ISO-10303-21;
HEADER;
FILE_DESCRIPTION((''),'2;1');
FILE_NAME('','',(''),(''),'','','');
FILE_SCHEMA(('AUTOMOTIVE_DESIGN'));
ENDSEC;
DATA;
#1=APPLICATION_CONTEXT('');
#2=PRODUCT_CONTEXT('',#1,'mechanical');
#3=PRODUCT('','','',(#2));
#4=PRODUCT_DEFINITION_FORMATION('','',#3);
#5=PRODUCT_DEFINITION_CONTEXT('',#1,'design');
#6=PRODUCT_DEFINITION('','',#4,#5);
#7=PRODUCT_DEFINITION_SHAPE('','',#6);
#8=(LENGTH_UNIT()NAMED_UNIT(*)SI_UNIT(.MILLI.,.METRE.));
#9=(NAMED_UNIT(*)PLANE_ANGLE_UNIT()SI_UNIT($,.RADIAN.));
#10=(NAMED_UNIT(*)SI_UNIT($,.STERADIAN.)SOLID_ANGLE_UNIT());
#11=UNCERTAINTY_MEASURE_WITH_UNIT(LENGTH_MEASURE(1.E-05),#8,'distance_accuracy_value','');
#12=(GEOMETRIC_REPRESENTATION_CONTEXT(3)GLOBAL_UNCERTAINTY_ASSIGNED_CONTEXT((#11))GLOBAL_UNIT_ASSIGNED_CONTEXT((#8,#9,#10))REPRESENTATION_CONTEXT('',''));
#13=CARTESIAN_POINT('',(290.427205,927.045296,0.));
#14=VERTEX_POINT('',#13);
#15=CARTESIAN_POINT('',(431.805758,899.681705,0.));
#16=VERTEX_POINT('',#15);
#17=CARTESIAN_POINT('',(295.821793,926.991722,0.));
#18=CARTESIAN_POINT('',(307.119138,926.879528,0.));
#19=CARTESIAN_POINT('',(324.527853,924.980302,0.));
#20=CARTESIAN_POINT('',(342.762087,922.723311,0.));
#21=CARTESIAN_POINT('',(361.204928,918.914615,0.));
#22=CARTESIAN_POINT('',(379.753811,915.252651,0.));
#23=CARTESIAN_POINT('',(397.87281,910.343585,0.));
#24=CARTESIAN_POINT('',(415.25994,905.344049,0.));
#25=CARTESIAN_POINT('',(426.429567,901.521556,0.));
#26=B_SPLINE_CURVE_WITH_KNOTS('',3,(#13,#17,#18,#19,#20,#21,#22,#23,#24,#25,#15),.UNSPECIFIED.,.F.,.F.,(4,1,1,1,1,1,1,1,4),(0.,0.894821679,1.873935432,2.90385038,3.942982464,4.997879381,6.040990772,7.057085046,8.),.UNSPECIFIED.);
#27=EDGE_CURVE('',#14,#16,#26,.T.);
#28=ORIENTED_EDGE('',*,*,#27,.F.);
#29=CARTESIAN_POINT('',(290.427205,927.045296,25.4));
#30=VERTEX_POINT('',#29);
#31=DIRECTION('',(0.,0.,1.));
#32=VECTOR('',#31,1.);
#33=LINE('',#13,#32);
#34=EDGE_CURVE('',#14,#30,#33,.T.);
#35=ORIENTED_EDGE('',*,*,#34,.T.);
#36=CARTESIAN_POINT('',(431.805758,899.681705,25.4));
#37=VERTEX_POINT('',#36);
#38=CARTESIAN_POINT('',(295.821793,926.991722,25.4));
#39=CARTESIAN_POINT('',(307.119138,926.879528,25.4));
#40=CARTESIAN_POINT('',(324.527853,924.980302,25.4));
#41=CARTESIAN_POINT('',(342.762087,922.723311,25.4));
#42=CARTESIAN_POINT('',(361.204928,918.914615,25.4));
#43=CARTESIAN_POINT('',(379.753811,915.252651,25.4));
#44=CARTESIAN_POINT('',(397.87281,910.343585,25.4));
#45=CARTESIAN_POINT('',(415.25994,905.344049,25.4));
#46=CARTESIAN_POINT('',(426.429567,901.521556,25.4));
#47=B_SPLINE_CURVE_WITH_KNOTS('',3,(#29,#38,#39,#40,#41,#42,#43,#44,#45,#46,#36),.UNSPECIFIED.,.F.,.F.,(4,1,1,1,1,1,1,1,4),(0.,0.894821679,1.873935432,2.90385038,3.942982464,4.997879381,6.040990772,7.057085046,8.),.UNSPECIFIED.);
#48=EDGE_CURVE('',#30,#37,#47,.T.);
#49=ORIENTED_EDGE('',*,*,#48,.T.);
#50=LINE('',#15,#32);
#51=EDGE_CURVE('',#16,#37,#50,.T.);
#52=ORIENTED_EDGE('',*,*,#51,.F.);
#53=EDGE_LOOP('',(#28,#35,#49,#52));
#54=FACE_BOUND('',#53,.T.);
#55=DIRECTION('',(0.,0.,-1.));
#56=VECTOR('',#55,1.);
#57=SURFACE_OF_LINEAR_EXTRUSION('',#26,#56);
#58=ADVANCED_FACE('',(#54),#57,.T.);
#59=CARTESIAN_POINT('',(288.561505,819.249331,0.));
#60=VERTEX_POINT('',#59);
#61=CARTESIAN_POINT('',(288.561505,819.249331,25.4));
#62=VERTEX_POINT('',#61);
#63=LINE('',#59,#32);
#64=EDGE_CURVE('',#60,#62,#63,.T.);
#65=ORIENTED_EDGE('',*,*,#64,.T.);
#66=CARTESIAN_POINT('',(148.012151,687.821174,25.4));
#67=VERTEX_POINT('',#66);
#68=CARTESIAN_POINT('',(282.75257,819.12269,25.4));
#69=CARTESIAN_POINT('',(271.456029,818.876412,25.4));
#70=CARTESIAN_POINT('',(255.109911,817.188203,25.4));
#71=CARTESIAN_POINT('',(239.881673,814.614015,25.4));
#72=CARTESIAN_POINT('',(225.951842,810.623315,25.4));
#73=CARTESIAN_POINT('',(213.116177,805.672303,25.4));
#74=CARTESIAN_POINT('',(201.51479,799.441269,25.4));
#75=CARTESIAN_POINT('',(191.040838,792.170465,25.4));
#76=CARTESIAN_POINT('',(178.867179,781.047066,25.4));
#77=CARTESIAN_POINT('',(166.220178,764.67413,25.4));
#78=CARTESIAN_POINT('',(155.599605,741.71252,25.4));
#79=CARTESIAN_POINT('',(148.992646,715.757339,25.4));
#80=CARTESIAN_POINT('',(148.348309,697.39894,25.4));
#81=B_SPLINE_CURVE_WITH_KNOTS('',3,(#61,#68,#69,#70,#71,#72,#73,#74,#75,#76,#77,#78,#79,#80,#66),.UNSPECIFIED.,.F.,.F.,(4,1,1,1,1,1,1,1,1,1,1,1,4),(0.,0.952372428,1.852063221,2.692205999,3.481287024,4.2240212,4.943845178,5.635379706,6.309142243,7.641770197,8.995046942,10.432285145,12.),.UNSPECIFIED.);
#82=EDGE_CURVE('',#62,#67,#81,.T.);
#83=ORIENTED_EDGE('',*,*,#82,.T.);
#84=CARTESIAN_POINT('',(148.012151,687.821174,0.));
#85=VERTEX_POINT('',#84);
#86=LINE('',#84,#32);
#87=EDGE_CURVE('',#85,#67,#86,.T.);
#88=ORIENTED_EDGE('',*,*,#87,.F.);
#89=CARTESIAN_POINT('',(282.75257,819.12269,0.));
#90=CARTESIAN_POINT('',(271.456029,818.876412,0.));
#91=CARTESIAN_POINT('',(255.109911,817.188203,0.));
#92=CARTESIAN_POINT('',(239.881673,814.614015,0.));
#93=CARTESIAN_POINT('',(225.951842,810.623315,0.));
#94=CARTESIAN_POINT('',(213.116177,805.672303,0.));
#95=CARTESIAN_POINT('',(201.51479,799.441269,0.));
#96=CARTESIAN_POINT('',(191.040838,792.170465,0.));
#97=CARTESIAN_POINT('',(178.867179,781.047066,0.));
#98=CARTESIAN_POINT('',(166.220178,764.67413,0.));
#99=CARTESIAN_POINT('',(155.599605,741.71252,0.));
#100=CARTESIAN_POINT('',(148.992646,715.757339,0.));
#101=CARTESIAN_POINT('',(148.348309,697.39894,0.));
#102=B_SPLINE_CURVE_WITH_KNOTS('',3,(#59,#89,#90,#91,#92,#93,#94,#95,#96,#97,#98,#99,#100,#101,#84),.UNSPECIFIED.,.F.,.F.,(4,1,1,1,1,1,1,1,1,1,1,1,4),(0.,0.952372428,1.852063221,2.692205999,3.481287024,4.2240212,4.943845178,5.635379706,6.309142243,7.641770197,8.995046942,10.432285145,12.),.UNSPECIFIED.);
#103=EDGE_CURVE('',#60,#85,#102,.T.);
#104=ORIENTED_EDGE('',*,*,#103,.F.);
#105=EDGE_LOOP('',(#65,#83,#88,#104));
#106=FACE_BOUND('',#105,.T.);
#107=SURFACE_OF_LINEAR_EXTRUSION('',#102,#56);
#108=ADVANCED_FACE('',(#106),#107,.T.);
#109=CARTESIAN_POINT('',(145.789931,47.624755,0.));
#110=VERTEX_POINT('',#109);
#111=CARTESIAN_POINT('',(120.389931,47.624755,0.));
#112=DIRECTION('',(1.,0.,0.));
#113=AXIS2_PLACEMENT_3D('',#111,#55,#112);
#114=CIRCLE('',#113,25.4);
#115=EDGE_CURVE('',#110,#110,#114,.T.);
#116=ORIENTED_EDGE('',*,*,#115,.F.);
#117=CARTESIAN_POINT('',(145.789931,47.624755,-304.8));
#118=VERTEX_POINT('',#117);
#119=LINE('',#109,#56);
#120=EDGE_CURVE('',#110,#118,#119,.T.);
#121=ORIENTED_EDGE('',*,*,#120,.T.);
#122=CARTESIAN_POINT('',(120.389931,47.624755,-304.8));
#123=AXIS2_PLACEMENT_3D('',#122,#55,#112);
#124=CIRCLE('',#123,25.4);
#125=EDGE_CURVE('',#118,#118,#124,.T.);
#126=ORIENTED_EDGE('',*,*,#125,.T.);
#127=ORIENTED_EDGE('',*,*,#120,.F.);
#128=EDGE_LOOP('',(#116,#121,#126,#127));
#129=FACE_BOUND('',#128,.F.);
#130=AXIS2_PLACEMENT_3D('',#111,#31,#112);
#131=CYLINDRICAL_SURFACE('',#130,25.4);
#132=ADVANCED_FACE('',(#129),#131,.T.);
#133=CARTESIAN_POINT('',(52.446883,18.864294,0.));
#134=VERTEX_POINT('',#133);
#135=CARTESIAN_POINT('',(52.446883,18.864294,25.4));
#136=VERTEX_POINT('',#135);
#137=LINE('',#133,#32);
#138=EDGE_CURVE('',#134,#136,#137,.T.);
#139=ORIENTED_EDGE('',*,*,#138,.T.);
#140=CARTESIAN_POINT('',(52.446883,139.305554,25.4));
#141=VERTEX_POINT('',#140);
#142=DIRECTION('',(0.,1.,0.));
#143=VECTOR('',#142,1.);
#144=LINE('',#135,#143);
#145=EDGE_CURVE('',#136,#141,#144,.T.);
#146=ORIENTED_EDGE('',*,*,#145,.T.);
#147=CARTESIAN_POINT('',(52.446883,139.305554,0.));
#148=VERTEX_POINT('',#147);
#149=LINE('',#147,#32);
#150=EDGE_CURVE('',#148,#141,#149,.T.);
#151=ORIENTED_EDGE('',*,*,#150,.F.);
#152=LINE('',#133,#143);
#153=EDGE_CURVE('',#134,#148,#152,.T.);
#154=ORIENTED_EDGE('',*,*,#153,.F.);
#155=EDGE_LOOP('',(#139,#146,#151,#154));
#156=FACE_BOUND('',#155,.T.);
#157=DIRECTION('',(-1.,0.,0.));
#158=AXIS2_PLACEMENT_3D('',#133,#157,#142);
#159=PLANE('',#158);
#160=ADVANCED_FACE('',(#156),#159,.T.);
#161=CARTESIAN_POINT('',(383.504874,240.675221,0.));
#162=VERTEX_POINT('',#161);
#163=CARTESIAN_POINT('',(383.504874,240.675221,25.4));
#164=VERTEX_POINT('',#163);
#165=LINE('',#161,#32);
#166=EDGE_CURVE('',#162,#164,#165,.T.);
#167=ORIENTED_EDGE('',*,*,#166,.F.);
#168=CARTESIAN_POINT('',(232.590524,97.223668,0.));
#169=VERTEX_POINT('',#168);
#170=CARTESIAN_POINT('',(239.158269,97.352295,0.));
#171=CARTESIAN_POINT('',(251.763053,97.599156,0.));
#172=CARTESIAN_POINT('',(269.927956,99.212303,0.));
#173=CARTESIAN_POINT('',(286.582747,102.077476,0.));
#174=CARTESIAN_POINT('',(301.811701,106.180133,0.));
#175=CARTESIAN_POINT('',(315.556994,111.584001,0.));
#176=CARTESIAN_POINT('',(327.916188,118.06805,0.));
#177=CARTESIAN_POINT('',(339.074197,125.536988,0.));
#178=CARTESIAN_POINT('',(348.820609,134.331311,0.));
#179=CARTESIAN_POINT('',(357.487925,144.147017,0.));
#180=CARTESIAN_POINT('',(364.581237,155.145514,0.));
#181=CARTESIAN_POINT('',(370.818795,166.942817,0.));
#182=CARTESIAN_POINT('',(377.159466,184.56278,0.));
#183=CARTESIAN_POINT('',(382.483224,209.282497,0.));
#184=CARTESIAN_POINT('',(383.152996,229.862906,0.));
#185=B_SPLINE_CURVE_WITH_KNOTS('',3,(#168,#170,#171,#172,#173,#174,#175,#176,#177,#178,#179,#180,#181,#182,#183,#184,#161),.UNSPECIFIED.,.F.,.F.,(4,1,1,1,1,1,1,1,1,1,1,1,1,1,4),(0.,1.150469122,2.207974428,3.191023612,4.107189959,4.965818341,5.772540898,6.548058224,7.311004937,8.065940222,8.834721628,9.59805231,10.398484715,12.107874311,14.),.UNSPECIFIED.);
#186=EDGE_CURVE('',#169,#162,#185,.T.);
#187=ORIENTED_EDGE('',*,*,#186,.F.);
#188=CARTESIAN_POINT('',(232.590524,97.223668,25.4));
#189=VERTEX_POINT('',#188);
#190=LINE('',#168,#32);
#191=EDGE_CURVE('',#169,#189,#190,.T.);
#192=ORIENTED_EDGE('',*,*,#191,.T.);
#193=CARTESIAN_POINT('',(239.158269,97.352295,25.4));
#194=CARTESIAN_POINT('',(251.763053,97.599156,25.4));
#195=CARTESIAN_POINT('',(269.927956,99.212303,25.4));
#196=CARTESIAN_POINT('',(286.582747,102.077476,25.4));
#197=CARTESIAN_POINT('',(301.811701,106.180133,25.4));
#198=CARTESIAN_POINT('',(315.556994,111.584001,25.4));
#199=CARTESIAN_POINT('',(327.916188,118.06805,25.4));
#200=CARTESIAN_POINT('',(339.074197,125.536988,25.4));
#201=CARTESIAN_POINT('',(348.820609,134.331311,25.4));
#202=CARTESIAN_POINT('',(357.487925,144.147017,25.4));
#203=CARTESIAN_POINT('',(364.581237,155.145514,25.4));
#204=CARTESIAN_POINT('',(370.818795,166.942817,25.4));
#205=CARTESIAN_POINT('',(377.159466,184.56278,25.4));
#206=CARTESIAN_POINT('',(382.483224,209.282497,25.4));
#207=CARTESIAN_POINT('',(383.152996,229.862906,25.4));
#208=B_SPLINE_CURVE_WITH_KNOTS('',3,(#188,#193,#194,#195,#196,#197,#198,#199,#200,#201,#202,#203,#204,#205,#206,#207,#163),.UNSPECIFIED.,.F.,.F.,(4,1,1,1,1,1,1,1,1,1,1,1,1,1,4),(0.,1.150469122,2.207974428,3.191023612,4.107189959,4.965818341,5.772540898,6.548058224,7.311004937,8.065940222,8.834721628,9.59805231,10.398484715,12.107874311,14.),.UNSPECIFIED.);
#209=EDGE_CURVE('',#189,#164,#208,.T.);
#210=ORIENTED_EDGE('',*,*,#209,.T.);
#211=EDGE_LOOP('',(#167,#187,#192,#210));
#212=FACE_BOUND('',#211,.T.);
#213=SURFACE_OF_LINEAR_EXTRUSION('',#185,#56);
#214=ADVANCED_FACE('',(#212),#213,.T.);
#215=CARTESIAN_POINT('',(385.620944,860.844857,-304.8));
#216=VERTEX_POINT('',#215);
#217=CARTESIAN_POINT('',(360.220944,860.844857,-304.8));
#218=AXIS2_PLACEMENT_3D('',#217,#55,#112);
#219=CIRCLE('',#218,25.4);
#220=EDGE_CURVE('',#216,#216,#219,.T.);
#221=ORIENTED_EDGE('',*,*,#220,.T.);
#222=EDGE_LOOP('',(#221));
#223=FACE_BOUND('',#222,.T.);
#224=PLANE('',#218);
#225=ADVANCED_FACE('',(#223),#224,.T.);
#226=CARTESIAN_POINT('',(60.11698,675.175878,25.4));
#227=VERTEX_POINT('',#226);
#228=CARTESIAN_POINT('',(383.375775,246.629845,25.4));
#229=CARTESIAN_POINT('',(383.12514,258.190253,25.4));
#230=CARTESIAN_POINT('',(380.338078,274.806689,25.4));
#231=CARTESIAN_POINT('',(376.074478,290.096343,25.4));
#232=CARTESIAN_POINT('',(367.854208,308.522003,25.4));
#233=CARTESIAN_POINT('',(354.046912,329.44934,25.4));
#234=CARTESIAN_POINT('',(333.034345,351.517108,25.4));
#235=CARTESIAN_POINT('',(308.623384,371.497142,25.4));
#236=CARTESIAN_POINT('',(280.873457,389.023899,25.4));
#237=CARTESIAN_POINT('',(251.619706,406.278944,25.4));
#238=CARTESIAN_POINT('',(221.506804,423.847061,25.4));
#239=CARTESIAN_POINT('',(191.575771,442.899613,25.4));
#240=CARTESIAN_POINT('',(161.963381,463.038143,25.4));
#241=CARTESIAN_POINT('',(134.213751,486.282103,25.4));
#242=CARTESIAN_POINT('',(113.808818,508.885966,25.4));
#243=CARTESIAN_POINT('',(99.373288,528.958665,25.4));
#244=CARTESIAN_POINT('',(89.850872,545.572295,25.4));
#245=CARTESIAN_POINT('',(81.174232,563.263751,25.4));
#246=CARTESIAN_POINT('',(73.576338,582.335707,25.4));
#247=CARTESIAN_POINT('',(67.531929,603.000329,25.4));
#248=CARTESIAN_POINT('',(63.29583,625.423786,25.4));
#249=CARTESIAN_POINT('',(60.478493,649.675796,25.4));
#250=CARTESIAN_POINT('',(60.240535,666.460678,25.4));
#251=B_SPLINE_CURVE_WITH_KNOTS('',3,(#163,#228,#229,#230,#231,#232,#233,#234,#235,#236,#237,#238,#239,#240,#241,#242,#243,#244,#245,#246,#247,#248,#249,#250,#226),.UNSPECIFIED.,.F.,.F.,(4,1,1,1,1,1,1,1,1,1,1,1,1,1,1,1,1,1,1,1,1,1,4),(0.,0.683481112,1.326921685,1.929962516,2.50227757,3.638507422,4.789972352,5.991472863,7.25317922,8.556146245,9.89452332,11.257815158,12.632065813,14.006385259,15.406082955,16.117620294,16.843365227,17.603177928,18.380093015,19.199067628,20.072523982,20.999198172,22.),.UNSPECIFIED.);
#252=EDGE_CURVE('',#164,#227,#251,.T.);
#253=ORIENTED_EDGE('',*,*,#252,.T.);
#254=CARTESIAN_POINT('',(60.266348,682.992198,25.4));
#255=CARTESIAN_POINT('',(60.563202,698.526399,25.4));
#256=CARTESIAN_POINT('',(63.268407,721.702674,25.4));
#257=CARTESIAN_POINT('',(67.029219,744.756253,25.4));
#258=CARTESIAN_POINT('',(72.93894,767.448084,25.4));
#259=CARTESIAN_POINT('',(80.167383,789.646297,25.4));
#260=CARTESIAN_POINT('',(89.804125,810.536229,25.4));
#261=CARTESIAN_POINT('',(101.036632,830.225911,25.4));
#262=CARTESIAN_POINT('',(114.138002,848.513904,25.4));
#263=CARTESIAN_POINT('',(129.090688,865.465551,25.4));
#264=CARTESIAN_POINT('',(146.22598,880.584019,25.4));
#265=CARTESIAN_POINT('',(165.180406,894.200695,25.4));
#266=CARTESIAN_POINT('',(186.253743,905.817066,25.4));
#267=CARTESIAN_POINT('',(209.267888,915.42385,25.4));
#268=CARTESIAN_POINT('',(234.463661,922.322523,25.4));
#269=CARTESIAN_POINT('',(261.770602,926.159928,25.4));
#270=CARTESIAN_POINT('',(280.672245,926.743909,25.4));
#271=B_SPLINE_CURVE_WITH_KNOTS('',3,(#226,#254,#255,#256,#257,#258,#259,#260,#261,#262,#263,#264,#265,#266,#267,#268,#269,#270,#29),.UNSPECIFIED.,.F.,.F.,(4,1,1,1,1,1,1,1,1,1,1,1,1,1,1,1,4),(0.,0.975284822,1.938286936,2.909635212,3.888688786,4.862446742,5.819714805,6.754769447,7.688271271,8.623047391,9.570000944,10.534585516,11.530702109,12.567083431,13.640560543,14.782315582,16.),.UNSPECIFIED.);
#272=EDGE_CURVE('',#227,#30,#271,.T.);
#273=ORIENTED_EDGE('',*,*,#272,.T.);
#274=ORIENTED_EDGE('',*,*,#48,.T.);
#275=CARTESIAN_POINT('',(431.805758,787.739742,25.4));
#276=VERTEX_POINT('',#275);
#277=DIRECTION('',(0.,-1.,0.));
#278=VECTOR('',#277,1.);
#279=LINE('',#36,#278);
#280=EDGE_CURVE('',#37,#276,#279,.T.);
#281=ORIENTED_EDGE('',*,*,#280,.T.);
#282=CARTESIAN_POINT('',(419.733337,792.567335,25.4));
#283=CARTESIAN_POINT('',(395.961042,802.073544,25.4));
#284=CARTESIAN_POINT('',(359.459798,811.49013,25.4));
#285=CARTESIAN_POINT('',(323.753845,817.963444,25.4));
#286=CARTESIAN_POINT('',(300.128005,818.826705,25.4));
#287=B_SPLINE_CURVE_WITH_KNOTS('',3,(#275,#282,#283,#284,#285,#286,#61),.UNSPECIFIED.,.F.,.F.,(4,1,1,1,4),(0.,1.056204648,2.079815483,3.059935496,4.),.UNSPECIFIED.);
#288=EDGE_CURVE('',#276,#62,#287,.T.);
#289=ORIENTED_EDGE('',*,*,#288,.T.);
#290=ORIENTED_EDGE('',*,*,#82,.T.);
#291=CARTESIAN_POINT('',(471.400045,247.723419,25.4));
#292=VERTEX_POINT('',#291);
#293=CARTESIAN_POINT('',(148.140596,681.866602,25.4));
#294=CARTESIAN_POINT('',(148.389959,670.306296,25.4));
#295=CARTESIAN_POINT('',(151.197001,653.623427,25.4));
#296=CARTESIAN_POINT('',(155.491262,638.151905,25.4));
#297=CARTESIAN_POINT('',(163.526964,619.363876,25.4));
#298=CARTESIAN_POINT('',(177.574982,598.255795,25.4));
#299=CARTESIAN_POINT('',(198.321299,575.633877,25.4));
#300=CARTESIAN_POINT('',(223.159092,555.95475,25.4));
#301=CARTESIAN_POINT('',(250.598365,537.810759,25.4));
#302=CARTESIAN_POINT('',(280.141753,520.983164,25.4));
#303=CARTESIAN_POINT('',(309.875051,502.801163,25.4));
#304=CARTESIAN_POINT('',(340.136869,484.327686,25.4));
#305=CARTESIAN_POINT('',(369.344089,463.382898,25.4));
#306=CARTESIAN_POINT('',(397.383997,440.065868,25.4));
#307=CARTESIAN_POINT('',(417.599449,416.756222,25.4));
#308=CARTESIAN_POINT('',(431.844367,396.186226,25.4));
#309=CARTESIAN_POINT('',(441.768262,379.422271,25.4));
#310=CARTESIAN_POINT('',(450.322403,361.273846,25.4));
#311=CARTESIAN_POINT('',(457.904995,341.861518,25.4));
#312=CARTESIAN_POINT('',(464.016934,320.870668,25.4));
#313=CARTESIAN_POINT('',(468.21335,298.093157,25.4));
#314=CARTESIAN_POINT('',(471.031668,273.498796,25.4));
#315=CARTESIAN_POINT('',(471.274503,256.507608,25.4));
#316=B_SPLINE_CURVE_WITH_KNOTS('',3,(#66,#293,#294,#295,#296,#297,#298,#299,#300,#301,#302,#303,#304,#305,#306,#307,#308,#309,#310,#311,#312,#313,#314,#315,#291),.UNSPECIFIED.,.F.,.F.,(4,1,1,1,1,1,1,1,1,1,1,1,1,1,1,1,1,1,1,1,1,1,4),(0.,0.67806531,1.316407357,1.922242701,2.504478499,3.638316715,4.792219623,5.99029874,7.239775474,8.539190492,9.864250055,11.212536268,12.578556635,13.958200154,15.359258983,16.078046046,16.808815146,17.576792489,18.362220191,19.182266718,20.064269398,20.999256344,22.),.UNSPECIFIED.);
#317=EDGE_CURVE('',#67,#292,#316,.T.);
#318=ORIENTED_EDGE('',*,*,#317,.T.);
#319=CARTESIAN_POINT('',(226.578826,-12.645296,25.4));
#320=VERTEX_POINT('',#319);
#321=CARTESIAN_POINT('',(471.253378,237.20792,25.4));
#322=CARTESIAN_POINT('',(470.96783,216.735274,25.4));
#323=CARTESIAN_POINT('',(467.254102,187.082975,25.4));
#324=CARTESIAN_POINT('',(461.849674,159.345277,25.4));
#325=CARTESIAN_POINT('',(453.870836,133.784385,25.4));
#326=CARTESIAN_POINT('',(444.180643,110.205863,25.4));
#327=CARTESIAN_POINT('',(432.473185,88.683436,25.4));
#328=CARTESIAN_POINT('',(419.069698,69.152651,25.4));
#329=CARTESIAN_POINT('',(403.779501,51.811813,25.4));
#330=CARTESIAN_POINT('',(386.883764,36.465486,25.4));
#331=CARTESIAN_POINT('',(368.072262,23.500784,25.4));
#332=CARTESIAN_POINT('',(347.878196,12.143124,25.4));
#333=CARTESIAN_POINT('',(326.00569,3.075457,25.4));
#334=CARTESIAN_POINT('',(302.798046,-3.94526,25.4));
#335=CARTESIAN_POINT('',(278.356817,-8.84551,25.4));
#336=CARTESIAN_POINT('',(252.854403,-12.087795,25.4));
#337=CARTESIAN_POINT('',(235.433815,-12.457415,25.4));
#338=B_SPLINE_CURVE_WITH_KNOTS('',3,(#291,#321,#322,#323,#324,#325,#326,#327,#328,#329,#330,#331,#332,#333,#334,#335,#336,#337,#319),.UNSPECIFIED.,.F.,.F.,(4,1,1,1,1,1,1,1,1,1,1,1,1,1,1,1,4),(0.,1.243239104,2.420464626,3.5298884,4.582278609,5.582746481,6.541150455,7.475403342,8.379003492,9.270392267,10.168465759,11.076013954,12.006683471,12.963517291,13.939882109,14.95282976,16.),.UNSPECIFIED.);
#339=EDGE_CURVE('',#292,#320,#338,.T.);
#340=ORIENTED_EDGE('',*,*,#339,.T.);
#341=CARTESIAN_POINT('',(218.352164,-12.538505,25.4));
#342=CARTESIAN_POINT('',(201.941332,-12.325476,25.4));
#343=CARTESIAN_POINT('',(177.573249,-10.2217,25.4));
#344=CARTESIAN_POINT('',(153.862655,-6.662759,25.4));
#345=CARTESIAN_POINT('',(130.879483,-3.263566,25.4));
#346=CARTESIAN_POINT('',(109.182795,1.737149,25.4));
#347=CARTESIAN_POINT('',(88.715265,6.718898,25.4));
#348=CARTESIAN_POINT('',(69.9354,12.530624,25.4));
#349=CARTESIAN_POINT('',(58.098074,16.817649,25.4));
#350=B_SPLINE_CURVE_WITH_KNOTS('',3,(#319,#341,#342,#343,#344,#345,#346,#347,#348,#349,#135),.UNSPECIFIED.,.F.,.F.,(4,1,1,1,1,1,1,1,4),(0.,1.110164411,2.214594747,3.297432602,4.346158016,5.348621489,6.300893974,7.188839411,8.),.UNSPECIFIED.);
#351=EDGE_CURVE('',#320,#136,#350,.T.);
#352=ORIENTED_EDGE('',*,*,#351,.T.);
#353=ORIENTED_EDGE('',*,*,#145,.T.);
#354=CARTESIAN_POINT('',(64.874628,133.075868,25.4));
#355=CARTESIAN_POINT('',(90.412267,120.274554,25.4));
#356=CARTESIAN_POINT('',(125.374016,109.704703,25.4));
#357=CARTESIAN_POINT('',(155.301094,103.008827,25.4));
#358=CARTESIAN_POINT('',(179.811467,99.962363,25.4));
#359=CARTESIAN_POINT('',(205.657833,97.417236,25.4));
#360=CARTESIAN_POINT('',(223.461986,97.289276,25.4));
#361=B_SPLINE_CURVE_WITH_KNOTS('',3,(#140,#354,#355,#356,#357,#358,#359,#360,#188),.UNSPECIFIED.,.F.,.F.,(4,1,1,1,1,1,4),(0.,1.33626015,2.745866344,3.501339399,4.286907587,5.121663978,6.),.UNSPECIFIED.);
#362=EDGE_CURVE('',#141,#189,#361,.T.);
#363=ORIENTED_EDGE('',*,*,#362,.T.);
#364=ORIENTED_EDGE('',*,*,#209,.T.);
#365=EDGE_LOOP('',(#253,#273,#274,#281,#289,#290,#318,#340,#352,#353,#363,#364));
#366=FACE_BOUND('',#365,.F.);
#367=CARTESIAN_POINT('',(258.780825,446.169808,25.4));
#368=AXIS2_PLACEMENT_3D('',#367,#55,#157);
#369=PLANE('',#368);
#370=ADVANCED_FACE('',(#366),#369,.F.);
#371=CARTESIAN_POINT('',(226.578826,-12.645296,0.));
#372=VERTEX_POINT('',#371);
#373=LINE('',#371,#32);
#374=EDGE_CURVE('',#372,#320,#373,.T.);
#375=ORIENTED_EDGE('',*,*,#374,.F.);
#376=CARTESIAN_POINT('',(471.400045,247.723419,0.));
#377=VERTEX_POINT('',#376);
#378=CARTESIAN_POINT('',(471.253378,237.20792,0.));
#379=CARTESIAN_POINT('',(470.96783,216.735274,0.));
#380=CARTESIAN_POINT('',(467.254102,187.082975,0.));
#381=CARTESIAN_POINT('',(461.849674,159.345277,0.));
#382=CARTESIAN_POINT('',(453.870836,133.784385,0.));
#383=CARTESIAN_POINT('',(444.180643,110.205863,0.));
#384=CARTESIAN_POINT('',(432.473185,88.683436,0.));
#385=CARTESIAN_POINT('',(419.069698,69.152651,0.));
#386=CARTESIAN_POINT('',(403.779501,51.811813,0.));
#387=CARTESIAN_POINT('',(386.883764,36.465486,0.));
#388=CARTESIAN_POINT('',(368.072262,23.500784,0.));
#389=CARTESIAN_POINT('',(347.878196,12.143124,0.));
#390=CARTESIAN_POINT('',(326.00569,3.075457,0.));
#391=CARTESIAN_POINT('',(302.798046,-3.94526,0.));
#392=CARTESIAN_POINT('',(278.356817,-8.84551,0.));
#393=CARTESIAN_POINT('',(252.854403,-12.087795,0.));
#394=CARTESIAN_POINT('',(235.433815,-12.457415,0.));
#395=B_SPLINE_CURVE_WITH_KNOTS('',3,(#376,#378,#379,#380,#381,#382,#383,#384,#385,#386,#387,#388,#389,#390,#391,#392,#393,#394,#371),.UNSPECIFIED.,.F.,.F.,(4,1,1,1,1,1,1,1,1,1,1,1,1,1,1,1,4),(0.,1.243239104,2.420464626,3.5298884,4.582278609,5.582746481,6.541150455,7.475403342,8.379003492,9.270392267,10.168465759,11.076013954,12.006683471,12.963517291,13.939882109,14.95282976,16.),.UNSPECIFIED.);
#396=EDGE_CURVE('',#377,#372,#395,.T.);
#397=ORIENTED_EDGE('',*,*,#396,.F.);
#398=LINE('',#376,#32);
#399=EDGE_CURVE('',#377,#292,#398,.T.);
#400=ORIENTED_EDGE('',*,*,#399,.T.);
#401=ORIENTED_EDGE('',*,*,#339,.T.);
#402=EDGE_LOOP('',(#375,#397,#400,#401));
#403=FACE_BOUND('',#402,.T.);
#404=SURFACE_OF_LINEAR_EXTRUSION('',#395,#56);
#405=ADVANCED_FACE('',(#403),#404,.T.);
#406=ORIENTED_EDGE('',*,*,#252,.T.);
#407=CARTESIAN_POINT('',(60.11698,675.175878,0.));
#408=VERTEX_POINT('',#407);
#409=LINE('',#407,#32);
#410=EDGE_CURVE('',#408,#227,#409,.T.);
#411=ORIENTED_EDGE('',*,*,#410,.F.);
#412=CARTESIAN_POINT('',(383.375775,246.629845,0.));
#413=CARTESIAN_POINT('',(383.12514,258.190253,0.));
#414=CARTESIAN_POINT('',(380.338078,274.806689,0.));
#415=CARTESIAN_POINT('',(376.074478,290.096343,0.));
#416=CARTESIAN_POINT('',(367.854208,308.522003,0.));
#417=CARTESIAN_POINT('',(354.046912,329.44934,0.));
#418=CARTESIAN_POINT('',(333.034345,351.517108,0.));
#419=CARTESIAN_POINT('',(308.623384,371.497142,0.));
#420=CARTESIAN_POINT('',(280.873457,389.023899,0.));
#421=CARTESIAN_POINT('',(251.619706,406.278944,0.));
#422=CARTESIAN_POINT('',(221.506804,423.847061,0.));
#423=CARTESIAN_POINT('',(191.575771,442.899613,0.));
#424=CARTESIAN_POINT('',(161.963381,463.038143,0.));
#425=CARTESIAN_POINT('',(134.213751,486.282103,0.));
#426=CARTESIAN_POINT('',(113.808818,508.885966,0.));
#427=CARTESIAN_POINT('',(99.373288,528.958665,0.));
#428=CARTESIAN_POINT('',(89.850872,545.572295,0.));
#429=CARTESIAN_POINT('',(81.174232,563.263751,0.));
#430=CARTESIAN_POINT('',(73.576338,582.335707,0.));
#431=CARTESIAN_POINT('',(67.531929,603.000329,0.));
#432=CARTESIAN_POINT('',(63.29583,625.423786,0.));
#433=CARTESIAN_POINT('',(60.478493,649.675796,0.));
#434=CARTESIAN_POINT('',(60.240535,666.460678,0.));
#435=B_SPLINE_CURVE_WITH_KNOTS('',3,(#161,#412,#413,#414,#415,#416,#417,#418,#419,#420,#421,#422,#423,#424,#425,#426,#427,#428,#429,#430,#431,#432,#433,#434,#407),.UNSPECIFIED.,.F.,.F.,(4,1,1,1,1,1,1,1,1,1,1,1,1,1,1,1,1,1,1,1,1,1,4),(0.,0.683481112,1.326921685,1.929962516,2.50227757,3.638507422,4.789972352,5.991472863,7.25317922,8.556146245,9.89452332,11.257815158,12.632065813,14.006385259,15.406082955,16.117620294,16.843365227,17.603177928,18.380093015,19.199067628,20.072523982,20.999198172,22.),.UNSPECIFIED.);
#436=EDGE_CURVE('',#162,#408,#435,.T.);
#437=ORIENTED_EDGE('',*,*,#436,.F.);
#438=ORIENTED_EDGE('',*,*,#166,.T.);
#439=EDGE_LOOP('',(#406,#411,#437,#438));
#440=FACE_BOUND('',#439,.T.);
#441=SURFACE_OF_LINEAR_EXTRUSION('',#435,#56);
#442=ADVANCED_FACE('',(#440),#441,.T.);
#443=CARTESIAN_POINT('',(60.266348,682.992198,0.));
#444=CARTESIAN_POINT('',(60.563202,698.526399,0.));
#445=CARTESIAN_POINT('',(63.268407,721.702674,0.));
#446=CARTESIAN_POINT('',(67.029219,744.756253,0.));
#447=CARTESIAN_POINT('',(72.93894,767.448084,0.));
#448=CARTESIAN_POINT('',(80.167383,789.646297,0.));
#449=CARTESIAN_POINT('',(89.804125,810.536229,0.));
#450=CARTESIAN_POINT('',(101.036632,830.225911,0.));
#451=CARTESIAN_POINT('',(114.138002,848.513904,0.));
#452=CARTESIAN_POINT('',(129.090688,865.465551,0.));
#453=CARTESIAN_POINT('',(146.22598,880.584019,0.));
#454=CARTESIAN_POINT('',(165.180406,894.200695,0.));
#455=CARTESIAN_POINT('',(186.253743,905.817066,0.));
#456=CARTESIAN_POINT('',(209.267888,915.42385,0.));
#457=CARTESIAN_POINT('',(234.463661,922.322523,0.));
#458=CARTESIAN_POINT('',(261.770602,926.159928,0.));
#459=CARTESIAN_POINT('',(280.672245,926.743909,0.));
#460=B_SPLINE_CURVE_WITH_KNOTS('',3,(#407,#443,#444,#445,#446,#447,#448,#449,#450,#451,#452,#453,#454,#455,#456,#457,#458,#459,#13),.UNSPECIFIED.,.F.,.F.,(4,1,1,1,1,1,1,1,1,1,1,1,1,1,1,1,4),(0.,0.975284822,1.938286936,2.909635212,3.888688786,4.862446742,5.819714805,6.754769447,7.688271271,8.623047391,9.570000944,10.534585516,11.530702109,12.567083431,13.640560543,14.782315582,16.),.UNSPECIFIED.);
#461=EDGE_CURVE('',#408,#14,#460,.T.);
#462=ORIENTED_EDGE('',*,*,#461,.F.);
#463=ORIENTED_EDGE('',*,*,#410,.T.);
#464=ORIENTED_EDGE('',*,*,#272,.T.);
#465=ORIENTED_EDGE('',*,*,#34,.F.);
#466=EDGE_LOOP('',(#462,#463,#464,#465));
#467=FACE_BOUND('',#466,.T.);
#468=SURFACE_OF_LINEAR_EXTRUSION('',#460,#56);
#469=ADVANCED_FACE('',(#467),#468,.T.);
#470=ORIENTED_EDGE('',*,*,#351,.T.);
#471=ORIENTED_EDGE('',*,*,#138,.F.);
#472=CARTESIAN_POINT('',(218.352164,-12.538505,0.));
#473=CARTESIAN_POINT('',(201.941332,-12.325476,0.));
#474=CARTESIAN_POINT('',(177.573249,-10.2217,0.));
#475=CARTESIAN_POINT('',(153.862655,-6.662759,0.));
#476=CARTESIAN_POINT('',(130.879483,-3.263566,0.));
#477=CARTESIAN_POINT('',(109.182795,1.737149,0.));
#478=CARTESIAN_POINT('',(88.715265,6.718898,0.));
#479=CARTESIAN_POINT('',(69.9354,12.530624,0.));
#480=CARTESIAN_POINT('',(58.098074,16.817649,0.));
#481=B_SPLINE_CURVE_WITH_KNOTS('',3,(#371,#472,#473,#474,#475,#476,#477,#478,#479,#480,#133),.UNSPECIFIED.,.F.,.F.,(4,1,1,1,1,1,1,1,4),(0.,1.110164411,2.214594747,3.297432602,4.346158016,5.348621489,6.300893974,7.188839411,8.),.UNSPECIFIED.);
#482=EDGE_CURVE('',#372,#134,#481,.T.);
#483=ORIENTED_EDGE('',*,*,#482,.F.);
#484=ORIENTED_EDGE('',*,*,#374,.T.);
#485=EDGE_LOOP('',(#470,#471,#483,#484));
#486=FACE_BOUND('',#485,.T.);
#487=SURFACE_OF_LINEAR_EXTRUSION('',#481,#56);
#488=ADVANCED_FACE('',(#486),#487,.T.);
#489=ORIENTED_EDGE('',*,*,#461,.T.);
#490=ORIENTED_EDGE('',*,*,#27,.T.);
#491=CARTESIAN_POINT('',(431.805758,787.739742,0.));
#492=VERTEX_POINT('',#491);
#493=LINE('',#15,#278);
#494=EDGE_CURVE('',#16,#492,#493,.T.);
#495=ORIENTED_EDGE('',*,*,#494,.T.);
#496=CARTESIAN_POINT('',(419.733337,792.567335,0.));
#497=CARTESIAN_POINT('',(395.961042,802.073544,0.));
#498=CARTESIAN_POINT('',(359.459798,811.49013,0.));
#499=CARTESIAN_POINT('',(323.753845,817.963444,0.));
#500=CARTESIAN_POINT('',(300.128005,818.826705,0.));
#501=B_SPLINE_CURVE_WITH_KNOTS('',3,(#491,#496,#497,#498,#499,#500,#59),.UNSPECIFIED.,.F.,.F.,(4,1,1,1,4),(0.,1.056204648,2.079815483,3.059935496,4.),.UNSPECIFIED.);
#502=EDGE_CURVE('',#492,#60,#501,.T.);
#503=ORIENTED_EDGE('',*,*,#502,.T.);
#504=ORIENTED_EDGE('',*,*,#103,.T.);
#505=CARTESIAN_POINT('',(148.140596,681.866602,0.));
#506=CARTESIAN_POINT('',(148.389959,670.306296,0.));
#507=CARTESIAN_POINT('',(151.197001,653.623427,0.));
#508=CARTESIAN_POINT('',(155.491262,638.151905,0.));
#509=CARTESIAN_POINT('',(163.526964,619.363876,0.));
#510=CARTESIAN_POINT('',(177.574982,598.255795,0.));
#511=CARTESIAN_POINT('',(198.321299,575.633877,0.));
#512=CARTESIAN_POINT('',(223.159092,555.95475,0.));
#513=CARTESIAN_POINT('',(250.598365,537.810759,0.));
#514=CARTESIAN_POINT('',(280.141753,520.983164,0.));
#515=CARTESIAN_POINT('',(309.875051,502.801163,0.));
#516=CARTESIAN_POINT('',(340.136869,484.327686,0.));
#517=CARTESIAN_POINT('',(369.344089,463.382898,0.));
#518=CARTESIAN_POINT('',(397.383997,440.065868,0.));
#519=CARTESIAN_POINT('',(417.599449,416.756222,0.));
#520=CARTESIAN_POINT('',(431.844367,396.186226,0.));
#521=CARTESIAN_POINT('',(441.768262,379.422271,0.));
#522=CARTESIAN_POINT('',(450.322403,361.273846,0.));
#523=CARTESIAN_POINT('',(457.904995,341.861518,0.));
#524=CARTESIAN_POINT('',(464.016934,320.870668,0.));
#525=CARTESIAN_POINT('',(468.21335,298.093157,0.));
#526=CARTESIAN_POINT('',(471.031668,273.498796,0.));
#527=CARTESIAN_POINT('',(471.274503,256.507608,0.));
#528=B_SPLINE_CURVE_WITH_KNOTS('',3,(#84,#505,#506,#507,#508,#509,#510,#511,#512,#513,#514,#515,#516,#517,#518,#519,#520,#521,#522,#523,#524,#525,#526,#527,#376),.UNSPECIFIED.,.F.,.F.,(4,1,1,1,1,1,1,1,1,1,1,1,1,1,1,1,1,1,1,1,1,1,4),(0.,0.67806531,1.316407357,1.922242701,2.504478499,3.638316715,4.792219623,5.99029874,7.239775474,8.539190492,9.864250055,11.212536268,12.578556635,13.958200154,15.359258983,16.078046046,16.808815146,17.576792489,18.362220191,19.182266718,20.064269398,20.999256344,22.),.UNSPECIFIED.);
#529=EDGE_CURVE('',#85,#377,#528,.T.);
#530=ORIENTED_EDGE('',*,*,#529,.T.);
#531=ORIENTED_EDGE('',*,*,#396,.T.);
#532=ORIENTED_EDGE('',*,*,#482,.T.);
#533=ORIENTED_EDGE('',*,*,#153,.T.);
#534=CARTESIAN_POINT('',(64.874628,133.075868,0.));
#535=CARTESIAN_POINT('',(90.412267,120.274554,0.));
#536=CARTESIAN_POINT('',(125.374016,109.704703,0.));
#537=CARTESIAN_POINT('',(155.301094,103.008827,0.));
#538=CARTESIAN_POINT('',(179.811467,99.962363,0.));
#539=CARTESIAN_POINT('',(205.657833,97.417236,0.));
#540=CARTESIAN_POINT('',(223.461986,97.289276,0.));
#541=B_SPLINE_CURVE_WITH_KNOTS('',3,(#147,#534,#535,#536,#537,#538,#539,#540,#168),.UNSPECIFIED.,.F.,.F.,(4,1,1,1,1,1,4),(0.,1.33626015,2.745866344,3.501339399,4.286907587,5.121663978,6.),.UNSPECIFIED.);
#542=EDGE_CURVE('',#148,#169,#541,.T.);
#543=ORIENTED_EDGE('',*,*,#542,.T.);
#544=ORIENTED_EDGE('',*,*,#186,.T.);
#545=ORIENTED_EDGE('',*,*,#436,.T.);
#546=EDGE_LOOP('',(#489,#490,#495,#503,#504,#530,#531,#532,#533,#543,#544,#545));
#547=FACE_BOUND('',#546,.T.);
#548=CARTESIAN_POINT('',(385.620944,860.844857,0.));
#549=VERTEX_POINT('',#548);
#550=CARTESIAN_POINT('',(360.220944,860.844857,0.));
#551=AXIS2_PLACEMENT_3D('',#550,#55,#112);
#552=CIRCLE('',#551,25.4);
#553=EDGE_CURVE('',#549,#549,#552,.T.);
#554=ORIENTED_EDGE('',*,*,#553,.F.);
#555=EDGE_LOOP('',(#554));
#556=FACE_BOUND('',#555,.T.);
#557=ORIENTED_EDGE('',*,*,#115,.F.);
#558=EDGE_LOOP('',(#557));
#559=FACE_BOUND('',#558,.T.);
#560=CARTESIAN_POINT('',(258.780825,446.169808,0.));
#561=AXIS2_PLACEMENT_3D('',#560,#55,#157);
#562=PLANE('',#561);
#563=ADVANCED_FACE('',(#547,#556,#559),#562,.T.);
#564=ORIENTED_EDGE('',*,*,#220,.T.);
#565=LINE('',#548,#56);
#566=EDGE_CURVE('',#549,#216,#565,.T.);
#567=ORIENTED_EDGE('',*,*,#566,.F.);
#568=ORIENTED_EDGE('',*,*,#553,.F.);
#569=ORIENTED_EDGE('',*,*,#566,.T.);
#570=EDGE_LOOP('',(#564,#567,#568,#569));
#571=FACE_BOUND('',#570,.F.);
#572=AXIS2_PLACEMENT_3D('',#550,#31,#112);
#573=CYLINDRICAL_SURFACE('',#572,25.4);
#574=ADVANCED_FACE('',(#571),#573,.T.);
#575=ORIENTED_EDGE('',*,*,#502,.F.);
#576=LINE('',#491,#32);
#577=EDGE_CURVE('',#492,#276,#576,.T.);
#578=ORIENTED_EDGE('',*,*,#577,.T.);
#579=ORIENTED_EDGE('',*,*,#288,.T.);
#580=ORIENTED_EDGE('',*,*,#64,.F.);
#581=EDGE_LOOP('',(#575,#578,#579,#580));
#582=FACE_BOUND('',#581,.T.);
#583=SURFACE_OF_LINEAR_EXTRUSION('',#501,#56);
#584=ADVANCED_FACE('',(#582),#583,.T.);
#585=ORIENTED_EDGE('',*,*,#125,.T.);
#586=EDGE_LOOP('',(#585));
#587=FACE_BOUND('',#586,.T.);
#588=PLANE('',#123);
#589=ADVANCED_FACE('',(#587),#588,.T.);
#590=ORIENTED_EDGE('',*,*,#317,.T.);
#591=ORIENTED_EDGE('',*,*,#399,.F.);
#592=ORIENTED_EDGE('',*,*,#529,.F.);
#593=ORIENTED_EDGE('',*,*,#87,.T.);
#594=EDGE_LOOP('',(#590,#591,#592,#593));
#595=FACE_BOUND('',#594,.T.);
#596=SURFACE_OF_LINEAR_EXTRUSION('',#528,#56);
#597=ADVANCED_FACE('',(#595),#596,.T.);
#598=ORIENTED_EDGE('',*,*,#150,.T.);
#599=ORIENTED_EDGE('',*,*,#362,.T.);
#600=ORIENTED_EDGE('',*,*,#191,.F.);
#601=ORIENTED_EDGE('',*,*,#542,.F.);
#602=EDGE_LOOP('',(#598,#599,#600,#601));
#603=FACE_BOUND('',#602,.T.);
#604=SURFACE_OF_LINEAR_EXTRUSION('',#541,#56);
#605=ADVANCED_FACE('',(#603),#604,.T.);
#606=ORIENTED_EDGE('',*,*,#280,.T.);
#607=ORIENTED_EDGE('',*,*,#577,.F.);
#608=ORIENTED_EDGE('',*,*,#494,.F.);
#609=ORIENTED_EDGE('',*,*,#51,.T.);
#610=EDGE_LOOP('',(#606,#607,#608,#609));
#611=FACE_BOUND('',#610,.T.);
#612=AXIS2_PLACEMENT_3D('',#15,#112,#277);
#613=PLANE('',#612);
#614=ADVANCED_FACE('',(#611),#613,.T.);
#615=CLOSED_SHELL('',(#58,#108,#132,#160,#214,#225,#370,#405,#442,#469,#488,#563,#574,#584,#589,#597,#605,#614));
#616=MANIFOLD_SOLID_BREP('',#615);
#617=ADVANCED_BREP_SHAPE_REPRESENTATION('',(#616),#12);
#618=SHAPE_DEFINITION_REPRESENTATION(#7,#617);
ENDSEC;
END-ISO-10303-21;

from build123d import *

# Parameters (mm, degrees)
BOSS_EXTRUDE1_DEPTH = 25.4
SKETCH2_R           = 25.4
BOSS_EXTRUDE2_DEPTH = 304.8


with BuildPart() as part:
    # Sketch1 → Boss-Extrude1 (new body)
    with BuildSketch(Plane.XY):
        with BuildLine():
            add(Edge.make_bspline(
                [(471.400045341, 247.723418726), (471.253377656, 237.207919779), (470.967830054, 216.735274463), (467.254101988, 187.082974518), (461.8496739, 159.345276671), (453.870836324, 133.784385037), (444.180642621, 110.205863151), (432.473184544, 88.68343609), (419.069697548, 69.152650509), (403.779500623, 51.811813407), (386.883763515, 36.465486204), (368.07226234, 23.500783632), (347.87819623, 12.143124499), (326.005689501, 3.075456628), (302.798046482, -3.945259965), (278.356817124, -8.845510147), (252.854402734, -12.087794668), (235.433814702, -12.457415416), (226.578825663, -12.645295851)],
                knots=[0, 0, 0, 0, 1.243239104, 2.420464626, 3.5298884, 4.582278609, 5.582746481, 6.541150455, 7.475403342, 8.379003492, 9.270392267, 10.168465759, 11.076013954, 12.006683471, 12.963517291, 13.939882109, 14.95282976, 16, 16, 16, 16], degree=3))
            add(Edge.make_bspline(
                [(226.578825663, -12.645295851), (218.352164012, -12.538505316), (201.941331975, -12.325475825), (177.573248938, -10.221700143), (153.862654705, -6.662758999), (130.879483257, -3.263565991), (109.182795007, 1.737149247), (88.715264824, 6.718897763), (69.935399564, 12.530624018), (58.098073578, 16.817649327), (52.446882793, 18.864293811)],
                knots=[0, 0, 0, 0, 1.110164411, 2.214594747, 3.297432602, 4.346158016, 5.348621489, 6.300893974, 7.188839411, 8, 8, 8, 8], degree=3))
            Line((52.446882793, 18.864293811), (52.446882793, 139.305554296))
            add(Edge.make_bspline(
                [(52.446882793, 139.305554296), (64.874628492, 133.075868175), (90.412266994, 120.274554406), (125.374016113, 109.704702571), (155.301093725, 103.008826714), (179.811466542, 99.962362648), (205.657832859, 97.41723642), (223.461985851, 97.289275944), (232.590523691, 97.223668102)],
                knots=[0, 0, 0, 0, 1.33626015, 2.745866344, 3.501339399, 4.286907587, 5.121663978, 6, 6, 6, 6], degree=3))
            add(Edge.make_bspline(
                [(232.590523691, 97.223668102), (239.158269417, 97.352295207), (251.76305327, 97.599155684), (269.927956029, 99.212302505), (286.582747303, 102.077475814), (301.811701074, 106.180132756), (315.556993667, 111.584001003), (327.916187793, 118.068049642), (339.074197486, 125.536988417), (348.820608618, 134.331311428), (357.487925057, 144.147017107), (364.581237124, 155.14551392), (370.818795453, 166.942817171), (377.159465823, 184.562779609), (382.483224001, 209.282497228), (383.152996334, 229.862905592), (383.504874178, 240.675221038)],
                knots=[0, 0, 0, 0, 1.150469122, 2.207974428, 3.191023612, 4.107189959, 4.965818341, 5.772540898, 6.548058224, 7.311004937, 8.065940222, 8.834721628, 9.59805231, 10.398484715, 12.107874311, 14, 14, 14, 14], degree=3))
            add(Edge.make_bspline(
                [(383.504874178, 240.675221038), (383.375775152, 246.629845256), (383.125140139, 258.190252509), (380.338077986, 274.806688854), (376.07447805, 290.096343088), (367.854208023, 308.522003494), (354.046911722, 329.449339694), (333.034344764, 351.517108283), (308.623384124, 371.497142004), (280.873457154, 389.02389929), (251.61970563, 406.27894442), (221.506803957, 423.847060642), (191.575771198, 442.899613424), (161.963381352, 463.038143438), (134.213750684, 486.282103081), (113.808817585, 508.88596626), (99.373288206, 528.958664647), (89.850872373, 545.572294954), (81.174232028, 563.263750696), (73.576338245, 582.335707349), (67.531929478, 603.000329232), (63.295829594, 625.423786322), (60.478492711, 649.675796329), (60.240534913, 666.460677888), (60.116980277, 675.175878486)],
                knots=[0, 0, 0, 0, 0.683481112, 1.326921685, 1.929962516, 2.50227757, 3.638507422, 4.789972352, 5.991472863, 7.25317922, 8.556146245, 9.89452332, 11.257815158, 12.632065813, 14.006385259, 15.406082955, 16.117620294, 16.843365227, 17.603177928, 18.380093015, 19.199067628, 20.072523982, 20.999198172, 22, 22, 22, 22], degree=3))
            add(Edge.make_bspline(
                [(60.116980277, 675.175878486), (60.266347944, 682.992198254), (60.563202146, 698.526399296), (63.268407253, 721.702673865), (67.029218595, 744.756252708), (72.938939866, 767.448084012), (80.167383133, 789.646297398), (89.804124706, 810.536229263), (101.036631814, 830.225911242), (114.138002232, 848.513903833), (129.090687529, 865.465550925), (146.225980036, 880.584019249), (165.180405766, 894.200695058), (186.25374332, 905.817065987), (209.267887705, 915.423849913), (234.463660866, 922.322523346), (261.770601719, 926.159928277), (280.672245102, 926.743908945), (290.427204715, 927.045295851)],
                knots=[0, 0, 0, 0, 0.975284822, 1.938286936, 2.909635212, 3.888688786, 4.862446742, 5.819714805, 6.754769447, 7.688271271, 8.623047391, 9.570000944, 10.534585516, 11.530702109, 12.567083431, 13.640560543, 14.782315582, 16, 16, 16, 16], degree=3))
            add(Edge.make_bspline(
                [(290.427204715, 927.045295851), (295.821792555, 926.991722181), (307.119137631, 926.879528209), (324.527852683, 924.980301832), (342.762087373, 922.723310686), (361.204928023, 918.9146153), (379.753810568, 915.252650517), (397.872810434, 910.343585066), (415.259940193, 905.344049371), (426.429567097, 901.521556255), (431.805758331, 899.681704829)],
                knots=[0, 0, 0, 0, 0.894821679, 1.873935432, 2.90385038, 3.942982464, 4.997879381, 6.040990772, 7.057085046, 8, 8, 8, 8], degree=3))
            Line((431.805758331, 899.681704829), (431.805758331, 787.739741555))
            add(Edge.make_bspline(
                [(431.805758331, 787.739741555), (419.733337143, 792.567334637), (395.961042108, 802.073544308), (359.459798072, 811.490129789), (323.753844875, 817.963444445), (300.128004953, 818.8267049), (288.561505328, 819.249331217)],
                knots=[0, 0, 0, 0, 1.056204648, 2.079815483, 3.059935496, 4, 4, 4, 4], degree=3))
            add(Edge.make_bspline(
                [(288.561505328, 819.249331217), (282.752570383, 819.122689661), (271.45602877, 818.87641188), (255.109911254, 817.188203241), (239.881672867, 814.614015324), (225.951841889, 810.623314646), (213.116176925, 805.672302763), (201.514790252, 799.441268731), (191.040837515, 792.170464752), (178.867178614, 781.047066068), (166.220178449, 764.674130027), (155.599605332, 741.712519513), (148.992646474, 715.757338896), (148.348308943, 697.398939659), (148.01215144, 687.821174337)],
                knots=[0, 0, 0, 0, 0.952372428, 1.852063221, 2.692205999, 3.481287024, 4.2240212, 4.943845178, 5.635379706, 6.309142243, 7.641770197, 8.995046942, 10.432285145, 12, 12, 12, 12], degree=3))
            add(Edge.make_bspline(
                [(148.01215144, 687.821174337), (148.140595609, 681.866602086), (148.389959273, 670.306295722), (151.197000805, 653.623427204), (155.491262386, 638.151905383), (163.526964206, 619.363875789), (177.574982405, 598.255795043), (198.321298675, 575.633877137), (223.159092318, 555.954749965), (250.598364534, 537.810758968), (280.141752918, 520.983163901), (309.875051442, 502.801163048), (340.136869423, 484.327686063), (369.344089464, 463.38289759), (397.383997281, 440.065868192), (417.599449013, 416.756221958), (431.84436681, 396.186226446), (441.768261809, 379.422271106), (450.322403238, 361.273846123), (457.904994803, 341.861518304), (464.016933769, 320.870667906), (468.213349889, 298.093157172), (471.031668208, 273.498795578), (471.274503264, 256.507607726), (471.400045341, 247.723418726)],
                knots=[0, 0, 0, 0, 0.67806531, 1.316407357, 1.922242701, 2.504478499, 3.638316715, 4.792219623, 5.99029874, 7.239775474, 8.539190492, 9.864250055, 11.212536268, 12.578556635, 13.958200154, 15.359258983, 16.078046046, 16.808815146, 17.576792489, 18.362220191, 19.182266718, 20.064269398, 20.999256344, 22, 22, 22, 22], degree=3))
        make_face()
    extrude(amount=BOSS_EXTRUDE1_DEPTH)

    # Sketch2 → Boss-Extrude2 (add)
    with BuildSketch(Plane(origin=(0, 0, 0), x_dir=(-1, 0, 0), z_dir=(0, 0, -1))):
        with Locations(Location((-360.220944294, 860.84485697, 0), (0, 0, 180))):
            Circle(SKETCH2_R)
        with Locations(Location((-120.389931068, 47.62475465, 0), (0, 0, 180))):
            Circle(SKETCH2_R)
    extrude(amount=BOSS_EXTRUDE2_DEPTH)


solid = part.part
